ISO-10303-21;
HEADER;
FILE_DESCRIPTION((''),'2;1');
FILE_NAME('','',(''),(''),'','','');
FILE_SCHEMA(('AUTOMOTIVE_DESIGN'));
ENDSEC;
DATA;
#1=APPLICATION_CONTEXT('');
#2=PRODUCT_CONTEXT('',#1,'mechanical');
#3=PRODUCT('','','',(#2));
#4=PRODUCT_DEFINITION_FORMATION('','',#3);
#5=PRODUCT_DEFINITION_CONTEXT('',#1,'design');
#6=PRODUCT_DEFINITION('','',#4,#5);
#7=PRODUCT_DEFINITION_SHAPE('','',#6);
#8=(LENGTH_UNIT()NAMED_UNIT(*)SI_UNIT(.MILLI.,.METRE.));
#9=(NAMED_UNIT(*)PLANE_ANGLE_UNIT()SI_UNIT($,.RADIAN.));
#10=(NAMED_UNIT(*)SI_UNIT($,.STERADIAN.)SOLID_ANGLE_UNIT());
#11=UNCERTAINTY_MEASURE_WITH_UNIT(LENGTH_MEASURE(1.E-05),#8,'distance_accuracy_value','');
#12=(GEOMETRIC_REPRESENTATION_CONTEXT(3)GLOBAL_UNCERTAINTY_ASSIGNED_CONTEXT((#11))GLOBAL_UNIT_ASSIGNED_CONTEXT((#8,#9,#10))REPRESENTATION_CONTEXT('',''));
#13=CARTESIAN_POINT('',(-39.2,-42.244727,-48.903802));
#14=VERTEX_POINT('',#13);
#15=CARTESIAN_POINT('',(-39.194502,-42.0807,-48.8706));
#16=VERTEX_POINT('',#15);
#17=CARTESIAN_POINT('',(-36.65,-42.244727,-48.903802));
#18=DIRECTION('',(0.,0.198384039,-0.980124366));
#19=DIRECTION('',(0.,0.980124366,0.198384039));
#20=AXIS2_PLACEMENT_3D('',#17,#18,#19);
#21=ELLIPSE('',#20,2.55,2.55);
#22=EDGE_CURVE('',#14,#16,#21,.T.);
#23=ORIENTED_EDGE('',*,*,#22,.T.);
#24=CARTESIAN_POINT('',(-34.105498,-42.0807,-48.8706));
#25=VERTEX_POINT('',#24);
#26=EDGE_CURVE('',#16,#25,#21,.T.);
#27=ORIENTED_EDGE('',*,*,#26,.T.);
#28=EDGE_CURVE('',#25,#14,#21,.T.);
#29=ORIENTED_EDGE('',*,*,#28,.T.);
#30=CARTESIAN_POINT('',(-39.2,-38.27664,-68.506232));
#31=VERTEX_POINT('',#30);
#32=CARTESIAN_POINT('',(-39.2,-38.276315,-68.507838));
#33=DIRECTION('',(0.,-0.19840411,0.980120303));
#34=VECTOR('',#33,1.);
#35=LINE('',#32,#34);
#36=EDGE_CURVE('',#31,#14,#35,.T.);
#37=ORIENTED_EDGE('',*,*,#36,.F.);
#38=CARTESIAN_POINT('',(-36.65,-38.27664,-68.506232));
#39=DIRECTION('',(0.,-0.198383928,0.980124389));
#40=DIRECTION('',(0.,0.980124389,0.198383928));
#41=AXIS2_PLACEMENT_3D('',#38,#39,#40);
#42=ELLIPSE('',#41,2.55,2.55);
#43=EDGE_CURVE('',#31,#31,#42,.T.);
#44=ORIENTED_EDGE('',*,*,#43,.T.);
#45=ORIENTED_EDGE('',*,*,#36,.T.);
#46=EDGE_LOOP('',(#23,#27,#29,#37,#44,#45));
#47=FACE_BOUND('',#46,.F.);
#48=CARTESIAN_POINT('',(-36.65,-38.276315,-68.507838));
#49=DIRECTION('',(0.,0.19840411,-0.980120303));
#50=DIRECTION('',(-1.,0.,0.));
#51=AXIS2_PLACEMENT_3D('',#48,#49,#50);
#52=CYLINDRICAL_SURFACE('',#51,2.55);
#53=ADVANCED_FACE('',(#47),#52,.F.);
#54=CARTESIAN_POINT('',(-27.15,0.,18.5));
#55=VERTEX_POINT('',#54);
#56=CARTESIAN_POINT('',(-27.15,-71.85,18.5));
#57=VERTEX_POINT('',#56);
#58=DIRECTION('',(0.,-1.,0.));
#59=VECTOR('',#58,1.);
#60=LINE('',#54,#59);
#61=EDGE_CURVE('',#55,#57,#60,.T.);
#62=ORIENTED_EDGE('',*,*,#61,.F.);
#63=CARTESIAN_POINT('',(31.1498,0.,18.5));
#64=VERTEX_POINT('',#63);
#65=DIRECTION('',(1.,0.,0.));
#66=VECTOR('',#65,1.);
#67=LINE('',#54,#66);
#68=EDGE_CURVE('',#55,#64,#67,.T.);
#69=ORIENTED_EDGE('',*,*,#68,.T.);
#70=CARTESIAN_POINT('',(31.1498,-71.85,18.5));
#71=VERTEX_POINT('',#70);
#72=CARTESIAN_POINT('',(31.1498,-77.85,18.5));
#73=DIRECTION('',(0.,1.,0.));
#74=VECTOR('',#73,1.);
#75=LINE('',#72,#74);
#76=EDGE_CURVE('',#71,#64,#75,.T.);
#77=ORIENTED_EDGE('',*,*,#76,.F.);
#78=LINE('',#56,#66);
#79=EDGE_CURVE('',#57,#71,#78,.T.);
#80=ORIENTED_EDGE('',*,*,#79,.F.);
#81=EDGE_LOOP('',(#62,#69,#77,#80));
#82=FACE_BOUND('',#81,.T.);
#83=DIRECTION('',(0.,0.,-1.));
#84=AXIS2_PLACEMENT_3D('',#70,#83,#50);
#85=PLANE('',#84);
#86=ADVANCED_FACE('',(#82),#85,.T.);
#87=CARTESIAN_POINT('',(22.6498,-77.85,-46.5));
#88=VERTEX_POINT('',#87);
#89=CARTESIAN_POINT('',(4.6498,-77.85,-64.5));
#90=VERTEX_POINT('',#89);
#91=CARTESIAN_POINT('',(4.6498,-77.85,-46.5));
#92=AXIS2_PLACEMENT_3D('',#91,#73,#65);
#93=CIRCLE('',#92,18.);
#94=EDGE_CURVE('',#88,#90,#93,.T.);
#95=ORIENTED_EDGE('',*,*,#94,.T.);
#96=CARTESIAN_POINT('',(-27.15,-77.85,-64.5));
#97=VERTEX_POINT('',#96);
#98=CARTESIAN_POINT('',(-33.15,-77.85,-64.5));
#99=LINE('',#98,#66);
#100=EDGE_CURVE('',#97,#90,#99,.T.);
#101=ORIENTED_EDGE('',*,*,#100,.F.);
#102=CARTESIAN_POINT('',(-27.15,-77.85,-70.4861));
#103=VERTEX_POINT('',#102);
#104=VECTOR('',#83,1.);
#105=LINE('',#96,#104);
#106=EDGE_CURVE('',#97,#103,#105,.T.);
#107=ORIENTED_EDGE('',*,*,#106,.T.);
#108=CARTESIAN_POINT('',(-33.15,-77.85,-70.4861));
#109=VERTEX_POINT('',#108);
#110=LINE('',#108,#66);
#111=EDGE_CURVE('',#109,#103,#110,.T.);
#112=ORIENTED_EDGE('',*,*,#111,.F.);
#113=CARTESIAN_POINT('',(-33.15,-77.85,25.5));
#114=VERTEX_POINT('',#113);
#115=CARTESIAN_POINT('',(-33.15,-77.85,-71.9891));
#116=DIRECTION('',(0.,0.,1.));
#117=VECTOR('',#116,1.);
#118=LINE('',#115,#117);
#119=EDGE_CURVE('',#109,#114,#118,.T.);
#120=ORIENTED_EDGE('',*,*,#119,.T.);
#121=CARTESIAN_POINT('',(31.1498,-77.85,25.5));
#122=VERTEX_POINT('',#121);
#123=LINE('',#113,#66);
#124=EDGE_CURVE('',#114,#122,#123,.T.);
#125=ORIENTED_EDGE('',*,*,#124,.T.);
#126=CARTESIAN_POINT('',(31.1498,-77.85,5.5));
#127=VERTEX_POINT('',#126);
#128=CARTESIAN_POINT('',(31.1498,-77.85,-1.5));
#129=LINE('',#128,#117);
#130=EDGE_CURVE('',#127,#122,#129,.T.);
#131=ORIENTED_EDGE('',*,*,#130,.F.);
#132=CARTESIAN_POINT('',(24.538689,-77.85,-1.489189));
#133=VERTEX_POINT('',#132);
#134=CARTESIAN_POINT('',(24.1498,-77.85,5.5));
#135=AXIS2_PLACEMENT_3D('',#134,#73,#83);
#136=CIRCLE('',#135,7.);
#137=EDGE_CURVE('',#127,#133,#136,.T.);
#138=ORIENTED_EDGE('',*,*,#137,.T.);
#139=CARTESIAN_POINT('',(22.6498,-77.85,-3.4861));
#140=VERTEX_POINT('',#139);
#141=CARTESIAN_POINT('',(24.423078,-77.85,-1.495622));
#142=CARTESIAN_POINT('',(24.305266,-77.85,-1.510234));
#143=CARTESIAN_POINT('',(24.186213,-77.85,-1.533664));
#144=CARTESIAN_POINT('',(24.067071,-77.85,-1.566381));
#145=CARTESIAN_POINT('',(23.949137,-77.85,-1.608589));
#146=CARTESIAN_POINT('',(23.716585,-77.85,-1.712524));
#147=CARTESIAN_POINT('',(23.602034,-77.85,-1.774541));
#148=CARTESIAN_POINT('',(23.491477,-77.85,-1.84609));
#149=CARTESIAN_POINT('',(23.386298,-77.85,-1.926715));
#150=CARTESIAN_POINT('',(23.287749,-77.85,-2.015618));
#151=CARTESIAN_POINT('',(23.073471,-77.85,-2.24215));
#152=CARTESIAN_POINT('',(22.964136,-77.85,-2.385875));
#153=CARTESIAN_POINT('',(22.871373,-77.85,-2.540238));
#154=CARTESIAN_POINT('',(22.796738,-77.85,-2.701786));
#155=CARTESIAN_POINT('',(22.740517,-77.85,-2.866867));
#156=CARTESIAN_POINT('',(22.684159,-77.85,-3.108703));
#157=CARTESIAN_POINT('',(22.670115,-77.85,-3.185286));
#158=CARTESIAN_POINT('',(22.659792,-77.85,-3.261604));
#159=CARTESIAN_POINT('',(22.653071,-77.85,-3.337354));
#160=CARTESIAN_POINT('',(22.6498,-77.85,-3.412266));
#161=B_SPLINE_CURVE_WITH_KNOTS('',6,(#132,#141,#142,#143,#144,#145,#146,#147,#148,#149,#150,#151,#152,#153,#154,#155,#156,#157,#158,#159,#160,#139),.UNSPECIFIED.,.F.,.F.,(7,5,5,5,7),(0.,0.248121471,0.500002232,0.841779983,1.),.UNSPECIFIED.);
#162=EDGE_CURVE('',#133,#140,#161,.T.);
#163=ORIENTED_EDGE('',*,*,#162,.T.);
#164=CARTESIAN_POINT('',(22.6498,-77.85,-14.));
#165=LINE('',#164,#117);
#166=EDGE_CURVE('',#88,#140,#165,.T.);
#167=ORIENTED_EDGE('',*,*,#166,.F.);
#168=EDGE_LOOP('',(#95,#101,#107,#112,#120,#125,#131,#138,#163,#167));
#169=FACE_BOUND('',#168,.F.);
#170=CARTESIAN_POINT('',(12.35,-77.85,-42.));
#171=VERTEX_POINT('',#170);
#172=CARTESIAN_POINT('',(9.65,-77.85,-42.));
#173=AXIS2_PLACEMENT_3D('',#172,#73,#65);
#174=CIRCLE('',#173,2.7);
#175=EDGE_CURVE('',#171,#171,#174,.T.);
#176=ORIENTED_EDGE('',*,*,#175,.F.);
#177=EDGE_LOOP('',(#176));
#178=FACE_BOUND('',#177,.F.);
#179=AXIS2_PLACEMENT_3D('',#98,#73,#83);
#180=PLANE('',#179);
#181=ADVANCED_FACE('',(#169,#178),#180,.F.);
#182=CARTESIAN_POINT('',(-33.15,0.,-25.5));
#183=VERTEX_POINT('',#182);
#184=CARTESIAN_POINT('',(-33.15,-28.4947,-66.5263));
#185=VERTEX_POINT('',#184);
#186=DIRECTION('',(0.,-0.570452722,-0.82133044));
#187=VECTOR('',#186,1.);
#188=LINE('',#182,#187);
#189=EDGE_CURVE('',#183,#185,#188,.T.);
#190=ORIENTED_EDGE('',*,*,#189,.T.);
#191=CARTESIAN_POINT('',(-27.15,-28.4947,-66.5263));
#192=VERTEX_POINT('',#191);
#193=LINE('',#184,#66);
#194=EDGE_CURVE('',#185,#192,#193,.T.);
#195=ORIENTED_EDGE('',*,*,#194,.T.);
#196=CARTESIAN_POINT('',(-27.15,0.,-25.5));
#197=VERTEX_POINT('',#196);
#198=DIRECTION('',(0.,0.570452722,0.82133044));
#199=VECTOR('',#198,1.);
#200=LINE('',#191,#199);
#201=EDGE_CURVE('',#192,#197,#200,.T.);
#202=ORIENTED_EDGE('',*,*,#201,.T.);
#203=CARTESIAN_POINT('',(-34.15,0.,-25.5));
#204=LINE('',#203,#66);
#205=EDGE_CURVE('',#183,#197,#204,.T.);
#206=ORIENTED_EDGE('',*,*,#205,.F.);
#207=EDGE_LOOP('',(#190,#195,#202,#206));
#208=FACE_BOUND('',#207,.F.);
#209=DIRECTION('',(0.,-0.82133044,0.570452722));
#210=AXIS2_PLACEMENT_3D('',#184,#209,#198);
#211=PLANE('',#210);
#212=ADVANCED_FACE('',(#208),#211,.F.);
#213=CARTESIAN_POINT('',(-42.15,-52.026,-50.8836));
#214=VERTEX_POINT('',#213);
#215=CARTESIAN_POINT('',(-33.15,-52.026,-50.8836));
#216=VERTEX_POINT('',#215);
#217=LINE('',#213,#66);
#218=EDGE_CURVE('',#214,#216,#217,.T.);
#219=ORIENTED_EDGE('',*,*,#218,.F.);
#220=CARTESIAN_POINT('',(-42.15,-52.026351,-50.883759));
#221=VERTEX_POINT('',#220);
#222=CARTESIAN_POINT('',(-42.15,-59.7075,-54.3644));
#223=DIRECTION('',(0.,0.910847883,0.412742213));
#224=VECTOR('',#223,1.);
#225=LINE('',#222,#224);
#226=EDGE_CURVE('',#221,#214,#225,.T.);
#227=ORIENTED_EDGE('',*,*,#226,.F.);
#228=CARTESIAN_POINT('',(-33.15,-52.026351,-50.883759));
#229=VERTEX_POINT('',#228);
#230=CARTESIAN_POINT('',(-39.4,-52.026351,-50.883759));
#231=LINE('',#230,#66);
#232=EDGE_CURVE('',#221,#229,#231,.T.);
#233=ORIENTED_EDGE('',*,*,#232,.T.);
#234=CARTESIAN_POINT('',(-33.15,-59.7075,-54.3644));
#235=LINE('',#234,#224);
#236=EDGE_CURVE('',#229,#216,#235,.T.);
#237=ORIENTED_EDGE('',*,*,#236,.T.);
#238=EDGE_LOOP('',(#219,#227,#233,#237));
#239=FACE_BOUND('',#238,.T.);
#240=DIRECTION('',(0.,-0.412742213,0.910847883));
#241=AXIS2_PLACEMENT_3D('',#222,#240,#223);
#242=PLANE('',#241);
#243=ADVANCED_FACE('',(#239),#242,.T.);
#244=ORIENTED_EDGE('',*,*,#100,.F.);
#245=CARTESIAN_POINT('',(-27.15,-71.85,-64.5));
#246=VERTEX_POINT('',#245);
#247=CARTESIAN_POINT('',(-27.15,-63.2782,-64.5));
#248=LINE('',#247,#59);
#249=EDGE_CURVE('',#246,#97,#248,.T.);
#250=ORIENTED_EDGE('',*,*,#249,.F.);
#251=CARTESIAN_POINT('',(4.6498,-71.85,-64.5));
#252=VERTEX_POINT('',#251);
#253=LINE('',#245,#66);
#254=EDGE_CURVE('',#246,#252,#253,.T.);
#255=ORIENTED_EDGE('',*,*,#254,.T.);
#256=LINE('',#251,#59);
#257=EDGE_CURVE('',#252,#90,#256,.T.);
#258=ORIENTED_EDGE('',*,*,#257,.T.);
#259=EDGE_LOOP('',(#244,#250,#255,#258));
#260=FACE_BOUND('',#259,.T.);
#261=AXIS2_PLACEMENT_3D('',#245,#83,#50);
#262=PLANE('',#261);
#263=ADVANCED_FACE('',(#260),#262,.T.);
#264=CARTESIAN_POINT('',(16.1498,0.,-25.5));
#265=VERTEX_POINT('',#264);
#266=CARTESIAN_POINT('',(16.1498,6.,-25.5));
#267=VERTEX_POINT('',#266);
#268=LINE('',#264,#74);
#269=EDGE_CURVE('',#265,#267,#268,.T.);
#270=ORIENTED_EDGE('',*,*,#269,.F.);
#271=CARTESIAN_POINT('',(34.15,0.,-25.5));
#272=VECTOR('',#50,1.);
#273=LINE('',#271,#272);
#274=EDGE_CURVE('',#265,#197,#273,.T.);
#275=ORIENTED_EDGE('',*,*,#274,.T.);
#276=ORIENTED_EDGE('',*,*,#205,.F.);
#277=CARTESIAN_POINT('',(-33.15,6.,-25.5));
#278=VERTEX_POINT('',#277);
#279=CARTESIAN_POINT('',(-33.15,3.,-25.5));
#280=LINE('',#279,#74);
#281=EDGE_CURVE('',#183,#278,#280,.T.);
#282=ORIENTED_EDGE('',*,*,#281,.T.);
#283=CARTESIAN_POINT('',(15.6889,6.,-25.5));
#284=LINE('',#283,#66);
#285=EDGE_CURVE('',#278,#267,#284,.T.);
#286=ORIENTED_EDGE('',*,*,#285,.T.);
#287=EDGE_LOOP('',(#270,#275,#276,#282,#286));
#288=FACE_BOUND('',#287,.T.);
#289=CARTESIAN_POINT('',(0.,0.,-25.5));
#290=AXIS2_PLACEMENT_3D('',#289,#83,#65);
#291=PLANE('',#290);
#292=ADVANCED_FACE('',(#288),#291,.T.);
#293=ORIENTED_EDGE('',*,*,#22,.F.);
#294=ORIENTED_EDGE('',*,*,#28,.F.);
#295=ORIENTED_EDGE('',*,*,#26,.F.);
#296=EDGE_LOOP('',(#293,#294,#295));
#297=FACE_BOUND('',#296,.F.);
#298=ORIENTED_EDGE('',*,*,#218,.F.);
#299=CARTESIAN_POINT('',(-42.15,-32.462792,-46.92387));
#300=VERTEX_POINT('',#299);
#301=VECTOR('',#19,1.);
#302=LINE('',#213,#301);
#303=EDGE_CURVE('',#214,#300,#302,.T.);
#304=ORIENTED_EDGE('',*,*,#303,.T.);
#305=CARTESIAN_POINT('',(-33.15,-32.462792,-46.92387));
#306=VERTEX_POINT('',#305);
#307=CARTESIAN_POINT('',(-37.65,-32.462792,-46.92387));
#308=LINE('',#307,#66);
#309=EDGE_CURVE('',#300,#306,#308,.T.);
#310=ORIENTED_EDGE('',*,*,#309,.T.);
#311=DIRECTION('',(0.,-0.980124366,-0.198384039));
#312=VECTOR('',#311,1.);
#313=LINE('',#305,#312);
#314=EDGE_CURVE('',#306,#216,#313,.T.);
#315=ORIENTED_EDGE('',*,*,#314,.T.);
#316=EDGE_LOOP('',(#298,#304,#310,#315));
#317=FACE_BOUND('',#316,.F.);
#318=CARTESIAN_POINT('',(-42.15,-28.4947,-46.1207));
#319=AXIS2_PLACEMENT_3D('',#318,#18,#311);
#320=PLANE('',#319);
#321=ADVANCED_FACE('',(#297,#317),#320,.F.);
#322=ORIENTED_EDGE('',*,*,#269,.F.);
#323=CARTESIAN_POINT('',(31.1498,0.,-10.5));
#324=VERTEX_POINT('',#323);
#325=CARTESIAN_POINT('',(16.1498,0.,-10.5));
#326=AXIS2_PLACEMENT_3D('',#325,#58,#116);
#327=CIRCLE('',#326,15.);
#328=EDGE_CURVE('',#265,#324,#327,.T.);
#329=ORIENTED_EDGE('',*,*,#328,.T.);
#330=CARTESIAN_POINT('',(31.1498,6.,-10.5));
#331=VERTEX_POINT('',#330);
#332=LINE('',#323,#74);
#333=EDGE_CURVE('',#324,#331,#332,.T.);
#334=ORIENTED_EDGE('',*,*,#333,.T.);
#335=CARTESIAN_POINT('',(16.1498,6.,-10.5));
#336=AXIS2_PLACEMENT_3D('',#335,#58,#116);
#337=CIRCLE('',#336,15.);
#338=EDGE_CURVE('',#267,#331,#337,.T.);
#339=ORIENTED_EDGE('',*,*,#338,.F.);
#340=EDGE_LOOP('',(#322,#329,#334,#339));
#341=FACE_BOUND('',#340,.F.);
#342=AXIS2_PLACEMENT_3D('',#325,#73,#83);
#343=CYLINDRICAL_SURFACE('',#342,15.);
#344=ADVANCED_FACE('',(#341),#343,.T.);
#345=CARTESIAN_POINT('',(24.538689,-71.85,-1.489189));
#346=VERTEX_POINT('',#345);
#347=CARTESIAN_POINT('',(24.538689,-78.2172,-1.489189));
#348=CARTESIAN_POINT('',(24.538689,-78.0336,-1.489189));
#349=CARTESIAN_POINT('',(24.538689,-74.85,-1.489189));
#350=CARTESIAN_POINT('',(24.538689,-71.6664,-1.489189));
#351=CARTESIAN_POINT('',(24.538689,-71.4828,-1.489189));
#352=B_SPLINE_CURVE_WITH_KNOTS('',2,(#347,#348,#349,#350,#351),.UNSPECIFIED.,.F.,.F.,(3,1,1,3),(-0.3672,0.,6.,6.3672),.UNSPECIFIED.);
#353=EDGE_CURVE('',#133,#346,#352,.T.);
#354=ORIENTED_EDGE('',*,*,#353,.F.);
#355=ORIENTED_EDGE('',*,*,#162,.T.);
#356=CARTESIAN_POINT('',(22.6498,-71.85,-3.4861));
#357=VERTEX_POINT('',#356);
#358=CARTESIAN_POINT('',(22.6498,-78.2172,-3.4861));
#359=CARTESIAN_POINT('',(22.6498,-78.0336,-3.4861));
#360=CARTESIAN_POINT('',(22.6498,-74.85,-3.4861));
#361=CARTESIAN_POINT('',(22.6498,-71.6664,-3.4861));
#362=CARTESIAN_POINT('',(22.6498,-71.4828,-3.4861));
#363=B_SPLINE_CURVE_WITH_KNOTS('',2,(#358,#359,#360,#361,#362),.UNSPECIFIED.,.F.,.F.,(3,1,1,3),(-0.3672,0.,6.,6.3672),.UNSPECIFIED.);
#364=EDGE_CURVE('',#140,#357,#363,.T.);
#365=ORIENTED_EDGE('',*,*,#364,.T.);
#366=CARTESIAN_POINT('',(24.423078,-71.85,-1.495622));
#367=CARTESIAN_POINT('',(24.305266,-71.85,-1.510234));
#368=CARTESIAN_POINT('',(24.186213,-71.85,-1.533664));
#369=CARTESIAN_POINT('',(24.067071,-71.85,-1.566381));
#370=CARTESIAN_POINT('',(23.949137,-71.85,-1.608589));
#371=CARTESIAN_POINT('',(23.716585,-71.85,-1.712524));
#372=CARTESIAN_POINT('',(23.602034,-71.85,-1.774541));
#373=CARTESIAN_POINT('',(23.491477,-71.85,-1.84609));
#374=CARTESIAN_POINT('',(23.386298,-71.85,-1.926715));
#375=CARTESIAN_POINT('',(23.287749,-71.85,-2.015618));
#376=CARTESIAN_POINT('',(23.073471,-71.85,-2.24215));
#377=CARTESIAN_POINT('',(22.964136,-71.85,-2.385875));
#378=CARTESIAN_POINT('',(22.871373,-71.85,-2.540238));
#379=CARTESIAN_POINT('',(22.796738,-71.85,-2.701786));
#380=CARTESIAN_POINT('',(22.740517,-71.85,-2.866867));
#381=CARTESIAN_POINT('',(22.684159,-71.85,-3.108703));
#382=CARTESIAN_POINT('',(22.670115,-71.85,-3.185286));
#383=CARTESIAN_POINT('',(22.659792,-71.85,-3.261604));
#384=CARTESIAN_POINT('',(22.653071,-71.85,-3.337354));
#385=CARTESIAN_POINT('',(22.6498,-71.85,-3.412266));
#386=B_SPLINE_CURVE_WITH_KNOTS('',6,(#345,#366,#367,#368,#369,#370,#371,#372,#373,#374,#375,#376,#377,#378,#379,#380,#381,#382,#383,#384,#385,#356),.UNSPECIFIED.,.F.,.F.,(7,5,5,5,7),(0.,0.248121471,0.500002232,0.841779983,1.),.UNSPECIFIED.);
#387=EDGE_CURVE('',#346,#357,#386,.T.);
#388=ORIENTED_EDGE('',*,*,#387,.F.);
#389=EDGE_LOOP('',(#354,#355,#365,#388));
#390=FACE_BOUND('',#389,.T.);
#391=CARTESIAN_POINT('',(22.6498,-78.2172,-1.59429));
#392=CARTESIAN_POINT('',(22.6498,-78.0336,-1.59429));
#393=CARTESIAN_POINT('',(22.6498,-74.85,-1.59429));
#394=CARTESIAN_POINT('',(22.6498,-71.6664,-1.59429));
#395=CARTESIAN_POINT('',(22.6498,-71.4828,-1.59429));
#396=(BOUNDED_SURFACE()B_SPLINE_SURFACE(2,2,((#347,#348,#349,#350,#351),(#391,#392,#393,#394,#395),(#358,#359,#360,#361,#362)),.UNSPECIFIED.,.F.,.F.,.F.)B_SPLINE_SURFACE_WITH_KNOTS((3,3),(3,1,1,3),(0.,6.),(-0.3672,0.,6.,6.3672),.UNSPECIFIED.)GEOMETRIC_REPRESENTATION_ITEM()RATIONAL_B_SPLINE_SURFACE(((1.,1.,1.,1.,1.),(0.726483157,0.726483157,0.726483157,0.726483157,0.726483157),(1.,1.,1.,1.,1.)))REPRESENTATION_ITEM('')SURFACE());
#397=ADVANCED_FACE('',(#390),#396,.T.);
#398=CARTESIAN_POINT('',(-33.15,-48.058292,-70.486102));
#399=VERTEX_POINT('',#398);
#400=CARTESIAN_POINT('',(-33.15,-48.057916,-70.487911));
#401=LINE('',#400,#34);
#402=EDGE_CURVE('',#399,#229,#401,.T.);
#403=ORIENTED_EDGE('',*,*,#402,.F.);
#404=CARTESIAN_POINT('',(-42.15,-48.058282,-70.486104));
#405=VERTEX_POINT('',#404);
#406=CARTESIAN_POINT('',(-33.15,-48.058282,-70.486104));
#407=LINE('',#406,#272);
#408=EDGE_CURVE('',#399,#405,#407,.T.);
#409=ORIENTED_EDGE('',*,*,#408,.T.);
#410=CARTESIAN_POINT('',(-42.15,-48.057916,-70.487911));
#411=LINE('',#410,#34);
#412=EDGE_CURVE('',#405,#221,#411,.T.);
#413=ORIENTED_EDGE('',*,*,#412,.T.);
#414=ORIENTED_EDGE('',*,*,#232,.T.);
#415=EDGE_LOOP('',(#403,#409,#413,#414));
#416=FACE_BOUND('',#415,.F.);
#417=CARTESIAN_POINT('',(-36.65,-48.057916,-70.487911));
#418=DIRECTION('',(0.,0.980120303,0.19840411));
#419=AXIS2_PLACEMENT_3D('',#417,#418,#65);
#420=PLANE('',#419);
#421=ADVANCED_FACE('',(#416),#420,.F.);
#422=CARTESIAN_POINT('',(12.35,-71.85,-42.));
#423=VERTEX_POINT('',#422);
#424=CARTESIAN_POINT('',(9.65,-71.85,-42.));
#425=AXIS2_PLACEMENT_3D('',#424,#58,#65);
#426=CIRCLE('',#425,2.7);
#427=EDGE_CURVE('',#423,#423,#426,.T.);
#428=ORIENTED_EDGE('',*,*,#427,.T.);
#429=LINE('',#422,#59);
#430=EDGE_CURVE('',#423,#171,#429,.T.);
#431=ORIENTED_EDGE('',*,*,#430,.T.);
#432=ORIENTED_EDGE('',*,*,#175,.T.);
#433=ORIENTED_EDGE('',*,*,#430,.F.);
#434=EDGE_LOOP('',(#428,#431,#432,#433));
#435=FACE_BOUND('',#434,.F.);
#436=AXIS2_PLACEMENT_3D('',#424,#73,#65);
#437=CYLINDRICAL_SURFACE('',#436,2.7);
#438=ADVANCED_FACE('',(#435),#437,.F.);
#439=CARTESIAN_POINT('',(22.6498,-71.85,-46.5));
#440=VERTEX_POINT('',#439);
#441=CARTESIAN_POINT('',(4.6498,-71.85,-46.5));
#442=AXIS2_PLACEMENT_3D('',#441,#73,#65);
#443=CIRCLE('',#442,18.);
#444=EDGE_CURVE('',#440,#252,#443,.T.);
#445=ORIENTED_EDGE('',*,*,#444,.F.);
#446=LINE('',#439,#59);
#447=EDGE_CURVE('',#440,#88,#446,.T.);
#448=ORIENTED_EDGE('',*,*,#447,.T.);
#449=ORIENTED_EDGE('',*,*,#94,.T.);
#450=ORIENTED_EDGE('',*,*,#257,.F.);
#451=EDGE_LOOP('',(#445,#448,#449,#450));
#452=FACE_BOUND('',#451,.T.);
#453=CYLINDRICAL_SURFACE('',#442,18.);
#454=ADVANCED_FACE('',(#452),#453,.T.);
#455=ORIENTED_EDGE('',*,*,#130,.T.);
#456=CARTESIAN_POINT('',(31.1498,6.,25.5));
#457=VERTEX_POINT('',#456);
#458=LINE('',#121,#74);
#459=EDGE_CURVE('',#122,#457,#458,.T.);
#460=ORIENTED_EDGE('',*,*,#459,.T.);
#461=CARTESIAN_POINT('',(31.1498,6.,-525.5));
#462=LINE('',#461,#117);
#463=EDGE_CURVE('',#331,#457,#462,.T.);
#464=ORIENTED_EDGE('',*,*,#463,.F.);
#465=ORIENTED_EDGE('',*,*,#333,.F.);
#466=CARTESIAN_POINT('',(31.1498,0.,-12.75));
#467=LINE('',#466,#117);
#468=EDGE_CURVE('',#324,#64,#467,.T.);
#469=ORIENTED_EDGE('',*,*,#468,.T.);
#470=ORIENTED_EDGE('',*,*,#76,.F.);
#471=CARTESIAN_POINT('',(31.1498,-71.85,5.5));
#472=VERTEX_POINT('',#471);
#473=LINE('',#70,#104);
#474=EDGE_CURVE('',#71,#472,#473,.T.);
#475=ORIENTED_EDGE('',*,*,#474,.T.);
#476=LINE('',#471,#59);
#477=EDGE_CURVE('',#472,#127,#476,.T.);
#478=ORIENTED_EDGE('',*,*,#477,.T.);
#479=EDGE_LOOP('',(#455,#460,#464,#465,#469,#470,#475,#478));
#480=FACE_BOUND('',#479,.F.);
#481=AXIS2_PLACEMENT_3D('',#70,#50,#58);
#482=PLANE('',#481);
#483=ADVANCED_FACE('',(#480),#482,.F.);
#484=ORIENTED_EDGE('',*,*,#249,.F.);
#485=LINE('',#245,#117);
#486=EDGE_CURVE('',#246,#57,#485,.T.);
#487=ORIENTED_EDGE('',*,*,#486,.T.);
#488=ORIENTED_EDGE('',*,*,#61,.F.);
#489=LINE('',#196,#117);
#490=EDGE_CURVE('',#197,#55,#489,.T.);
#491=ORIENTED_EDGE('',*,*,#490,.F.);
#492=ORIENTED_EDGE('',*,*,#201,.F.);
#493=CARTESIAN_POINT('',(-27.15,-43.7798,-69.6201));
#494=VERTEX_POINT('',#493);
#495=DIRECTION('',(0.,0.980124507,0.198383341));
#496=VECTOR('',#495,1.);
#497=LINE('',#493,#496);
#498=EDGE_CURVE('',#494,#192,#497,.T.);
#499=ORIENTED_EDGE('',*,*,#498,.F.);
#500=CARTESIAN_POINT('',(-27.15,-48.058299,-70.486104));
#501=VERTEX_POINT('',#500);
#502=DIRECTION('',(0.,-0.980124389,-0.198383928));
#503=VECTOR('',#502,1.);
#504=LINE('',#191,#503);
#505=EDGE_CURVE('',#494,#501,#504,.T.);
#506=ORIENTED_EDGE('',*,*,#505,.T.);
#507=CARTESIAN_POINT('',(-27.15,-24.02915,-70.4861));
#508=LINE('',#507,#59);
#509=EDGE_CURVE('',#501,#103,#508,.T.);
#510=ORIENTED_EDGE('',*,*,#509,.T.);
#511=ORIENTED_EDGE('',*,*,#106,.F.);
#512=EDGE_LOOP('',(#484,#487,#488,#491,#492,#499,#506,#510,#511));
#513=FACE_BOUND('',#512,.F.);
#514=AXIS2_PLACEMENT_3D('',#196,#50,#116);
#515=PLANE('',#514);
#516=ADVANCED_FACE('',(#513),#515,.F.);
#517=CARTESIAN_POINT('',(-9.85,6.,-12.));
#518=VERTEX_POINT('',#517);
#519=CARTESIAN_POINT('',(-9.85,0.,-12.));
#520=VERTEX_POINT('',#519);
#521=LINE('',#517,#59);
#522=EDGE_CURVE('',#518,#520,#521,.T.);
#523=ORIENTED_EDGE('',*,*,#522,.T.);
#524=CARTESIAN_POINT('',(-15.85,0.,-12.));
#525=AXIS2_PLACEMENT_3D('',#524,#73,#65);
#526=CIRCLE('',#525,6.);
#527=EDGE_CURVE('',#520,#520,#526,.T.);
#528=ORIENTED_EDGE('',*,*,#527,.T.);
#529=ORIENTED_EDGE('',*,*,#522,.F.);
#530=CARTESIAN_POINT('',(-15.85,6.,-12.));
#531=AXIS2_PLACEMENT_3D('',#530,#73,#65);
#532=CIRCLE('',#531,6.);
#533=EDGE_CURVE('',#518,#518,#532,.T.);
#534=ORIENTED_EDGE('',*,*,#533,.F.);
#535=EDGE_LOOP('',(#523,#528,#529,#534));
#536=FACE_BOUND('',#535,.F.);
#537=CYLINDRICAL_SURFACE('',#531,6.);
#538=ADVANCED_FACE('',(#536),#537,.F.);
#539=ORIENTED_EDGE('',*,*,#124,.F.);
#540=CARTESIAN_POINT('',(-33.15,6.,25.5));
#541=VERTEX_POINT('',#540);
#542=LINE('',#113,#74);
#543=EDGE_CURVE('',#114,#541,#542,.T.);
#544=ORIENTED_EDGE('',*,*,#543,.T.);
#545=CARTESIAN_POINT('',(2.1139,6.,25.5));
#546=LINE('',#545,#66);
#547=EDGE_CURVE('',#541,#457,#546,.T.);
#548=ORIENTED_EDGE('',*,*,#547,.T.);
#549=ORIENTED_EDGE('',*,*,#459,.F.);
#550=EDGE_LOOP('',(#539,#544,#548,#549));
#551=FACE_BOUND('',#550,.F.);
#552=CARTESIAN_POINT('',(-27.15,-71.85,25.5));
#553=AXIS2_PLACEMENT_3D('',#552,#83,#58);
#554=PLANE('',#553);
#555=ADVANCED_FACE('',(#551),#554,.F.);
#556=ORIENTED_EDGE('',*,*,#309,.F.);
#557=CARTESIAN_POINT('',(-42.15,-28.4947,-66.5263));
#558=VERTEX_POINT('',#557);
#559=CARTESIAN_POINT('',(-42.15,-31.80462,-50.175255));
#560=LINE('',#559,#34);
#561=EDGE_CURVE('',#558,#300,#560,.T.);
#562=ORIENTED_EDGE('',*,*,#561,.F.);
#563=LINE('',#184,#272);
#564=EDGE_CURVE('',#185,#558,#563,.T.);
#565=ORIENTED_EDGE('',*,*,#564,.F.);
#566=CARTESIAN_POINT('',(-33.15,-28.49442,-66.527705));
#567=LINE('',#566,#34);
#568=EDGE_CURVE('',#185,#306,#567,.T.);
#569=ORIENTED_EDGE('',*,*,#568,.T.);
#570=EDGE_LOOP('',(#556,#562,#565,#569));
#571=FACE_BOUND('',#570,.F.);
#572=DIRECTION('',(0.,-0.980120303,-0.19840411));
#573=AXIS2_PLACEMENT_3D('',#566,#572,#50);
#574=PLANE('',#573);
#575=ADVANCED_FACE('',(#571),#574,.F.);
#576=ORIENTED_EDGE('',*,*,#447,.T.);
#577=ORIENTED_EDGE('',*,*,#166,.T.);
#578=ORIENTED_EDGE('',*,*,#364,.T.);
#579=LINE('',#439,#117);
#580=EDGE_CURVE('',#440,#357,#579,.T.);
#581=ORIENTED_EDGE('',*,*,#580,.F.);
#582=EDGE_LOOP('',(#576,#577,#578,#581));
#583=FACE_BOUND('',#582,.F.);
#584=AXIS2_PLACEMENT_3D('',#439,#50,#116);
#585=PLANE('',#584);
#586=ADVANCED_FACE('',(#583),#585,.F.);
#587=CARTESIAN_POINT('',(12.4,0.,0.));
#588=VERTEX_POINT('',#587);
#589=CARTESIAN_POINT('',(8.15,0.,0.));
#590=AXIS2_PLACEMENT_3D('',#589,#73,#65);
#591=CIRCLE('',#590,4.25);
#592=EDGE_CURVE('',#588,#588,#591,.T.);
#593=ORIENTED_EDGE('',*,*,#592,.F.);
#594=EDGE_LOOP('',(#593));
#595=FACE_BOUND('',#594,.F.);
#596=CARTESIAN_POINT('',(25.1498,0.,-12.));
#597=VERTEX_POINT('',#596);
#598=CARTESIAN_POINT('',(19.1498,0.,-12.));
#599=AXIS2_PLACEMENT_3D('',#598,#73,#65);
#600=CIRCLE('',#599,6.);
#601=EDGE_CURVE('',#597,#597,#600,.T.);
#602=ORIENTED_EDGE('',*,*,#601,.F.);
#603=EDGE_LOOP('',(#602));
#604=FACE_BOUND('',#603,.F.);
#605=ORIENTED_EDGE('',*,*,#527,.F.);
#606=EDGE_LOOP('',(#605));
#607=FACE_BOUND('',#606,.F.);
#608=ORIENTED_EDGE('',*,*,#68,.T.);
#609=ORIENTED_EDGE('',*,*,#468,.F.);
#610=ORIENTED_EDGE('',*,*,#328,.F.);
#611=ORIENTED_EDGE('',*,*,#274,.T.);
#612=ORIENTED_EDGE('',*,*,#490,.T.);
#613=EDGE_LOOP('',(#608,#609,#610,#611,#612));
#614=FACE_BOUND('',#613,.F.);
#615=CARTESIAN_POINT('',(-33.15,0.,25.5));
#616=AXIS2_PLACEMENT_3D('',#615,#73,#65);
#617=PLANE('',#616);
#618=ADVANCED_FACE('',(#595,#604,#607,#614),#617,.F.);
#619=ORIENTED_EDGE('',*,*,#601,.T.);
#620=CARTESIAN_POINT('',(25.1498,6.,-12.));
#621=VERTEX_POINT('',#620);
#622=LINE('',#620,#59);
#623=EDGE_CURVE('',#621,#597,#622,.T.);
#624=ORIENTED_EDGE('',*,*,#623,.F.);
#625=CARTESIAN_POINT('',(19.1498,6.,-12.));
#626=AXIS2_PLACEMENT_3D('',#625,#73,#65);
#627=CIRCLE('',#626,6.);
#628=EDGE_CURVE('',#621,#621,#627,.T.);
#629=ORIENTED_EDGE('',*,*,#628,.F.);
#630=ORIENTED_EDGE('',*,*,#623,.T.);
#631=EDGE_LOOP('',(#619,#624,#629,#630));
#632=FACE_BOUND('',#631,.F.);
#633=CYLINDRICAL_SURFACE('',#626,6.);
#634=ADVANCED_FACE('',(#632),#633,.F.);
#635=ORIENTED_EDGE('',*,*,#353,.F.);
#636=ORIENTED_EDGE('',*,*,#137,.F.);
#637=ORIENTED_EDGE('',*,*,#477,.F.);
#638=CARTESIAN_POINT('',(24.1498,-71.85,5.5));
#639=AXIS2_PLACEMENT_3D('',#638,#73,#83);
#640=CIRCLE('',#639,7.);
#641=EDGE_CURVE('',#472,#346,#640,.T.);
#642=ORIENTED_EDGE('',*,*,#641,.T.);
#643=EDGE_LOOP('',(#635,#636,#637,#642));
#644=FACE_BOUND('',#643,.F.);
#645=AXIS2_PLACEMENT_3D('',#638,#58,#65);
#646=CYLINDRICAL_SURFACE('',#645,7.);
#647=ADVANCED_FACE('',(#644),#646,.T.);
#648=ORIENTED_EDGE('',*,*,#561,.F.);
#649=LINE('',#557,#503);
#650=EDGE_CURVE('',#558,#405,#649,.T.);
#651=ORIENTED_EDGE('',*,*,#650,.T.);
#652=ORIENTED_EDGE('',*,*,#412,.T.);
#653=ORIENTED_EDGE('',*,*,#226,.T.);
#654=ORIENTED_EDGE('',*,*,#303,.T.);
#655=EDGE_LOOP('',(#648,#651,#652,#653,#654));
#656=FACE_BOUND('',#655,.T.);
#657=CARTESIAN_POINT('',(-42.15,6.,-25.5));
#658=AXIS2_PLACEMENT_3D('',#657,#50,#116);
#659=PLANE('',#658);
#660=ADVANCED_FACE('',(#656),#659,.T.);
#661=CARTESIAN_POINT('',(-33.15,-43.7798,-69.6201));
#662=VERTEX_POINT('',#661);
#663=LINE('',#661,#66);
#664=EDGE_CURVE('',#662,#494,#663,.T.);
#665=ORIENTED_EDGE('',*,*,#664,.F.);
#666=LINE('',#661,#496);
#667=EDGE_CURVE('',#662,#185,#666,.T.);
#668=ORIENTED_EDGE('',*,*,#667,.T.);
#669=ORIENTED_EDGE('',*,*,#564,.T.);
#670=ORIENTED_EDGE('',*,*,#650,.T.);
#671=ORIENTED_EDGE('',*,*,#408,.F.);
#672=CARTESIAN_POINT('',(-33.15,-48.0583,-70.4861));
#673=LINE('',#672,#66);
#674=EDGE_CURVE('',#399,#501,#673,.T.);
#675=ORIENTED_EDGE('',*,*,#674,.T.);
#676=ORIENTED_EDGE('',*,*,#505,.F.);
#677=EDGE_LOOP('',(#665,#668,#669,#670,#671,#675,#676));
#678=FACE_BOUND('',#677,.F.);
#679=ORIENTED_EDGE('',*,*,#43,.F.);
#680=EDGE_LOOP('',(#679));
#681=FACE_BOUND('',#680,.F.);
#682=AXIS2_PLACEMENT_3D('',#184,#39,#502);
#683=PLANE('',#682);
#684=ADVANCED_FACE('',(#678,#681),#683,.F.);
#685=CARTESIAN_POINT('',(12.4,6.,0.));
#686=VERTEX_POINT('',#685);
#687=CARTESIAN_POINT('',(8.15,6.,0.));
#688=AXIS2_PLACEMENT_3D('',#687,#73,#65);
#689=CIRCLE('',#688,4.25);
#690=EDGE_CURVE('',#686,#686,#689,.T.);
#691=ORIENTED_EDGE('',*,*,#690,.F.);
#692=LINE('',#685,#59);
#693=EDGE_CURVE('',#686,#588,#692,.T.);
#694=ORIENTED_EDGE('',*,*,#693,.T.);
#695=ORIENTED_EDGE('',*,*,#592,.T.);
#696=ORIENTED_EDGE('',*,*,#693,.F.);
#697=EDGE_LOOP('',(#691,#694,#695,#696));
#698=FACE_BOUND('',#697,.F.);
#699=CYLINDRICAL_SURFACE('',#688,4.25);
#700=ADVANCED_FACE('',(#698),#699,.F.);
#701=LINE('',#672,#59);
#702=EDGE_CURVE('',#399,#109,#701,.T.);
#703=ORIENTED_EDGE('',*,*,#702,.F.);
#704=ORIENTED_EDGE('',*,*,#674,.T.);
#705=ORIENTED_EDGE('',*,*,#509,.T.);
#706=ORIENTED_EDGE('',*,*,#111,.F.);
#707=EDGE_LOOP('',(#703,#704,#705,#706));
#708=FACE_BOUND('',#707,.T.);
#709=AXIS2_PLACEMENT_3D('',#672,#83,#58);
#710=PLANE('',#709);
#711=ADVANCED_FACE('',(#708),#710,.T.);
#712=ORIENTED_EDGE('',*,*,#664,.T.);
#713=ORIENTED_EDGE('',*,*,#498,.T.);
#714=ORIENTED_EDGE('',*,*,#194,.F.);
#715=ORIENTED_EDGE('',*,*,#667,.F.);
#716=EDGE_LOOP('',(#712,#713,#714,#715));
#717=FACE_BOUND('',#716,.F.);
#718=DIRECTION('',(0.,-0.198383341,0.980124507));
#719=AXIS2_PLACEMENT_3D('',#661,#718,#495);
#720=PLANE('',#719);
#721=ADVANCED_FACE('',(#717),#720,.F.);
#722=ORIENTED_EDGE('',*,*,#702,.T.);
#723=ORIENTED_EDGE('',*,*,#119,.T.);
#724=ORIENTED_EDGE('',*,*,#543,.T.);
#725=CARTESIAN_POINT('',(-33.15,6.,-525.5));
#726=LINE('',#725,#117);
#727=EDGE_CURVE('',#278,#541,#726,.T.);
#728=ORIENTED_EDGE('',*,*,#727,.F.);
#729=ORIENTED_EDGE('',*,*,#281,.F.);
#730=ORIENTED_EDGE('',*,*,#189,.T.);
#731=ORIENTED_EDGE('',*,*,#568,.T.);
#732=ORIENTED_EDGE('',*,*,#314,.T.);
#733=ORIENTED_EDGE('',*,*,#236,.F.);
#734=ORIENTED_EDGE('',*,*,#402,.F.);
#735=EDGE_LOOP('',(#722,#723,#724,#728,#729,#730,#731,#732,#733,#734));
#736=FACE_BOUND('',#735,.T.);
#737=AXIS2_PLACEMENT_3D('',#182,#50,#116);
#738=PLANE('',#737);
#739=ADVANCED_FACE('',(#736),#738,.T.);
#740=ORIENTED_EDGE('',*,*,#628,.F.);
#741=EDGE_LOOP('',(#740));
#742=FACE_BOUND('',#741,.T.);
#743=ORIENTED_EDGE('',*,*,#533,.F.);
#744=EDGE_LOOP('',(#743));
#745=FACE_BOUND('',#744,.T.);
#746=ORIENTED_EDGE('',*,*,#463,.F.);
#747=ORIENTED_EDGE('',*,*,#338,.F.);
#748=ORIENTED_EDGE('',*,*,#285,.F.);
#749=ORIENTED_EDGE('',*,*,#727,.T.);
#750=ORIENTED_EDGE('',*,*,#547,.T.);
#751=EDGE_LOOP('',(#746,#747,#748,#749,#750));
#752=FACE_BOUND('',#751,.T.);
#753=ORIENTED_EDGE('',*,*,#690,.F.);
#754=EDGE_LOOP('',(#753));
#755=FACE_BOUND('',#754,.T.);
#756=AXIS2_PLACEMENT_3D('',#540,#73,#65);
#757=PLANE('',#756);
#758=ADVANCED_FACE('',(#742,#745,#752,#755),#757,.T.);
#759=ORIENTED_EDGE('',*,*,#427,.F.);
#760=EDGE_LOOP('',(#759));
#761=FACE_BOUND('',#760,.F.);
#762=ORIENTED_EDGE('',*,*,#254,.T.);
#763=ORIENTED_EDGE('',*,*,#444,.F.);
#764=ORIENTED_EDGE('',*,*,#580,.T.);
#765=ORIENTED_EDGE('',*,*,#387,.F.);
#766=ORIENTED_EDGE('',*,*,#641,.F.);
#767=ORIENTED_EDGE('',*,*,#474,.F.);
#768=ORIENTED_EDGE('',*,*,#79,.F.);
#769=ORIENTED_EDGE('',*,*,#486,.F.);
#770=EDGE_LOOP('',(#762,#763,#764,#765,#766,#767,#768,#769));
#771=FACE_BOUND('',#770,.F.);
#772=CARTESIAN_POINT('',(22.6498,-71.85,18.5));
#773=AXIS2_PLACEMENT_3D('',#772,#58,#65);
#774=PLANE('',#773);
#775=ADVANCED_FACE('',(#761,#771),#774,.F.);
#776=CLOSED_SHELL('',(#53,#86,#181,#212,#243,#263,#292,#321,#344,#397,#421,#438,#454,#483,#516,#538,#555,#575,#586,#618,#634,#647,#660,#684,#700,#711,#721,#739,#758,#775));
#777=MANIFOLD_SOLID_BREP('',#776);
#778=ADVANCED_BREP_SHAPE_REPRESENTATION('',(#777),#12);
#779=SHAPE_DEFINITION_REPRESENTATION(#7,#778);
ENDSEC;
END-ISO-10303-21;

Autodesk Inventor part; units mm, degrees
ref_plane "YZ Plane" through (0, 0, 0) normal (1, 0, 0) x (0, 1, 0)
ref_plane "XZ Plane" through (0, 0, 0) normal (0, 1, 0) x (-1, 0, 0)
ref_plane "XY Plane" through (0, 0, 0) normal (0, 0, 1) x (1, 0, 0)
sketch "Sketch1" plane through (0, 0, 0) normal (0, 1, 0) x (-1, 0, 0)
  line L0 (0, -25.5) -> (-34.15, -25.5)
  line L1 (-34.15, -25.5) -> (-34.15, 0)
  line L2 (-34.15, 0) -> (-34.15, 25.5)
  line L3 (-34.15, 25.5) -> (0, 25.5)
  line L4 (0, 25.5) -> (34.15, 25.5)
  line L5 (34.15, 25.5) -> (34.15, 0)
  line L6 (34.15, 0) -> (34.15, -25.5)
  line L7 (34.15, -25.5) -> (0, -25.5)
  point P0 (0, 0)
extrude "Extrusion1" add sketch "Sketch1" along normal blind 7
sketch "Sketch3" plane through (-34.15, 0, 25.5) normal (0, 0, 1) x (1, 0, 0)
  line L0 (0, 0) -> (0, -78.85)
  point P0 (34.15, 0)
  dimension "d7" = 78.85
sketch "Sketch4" plane through (-34.15, 0, -25.5) normal (-1, 0, 0) x (0, 0, 1)
  line L0 (51, 0) -> (51, -78.85)
  line L1 (51, -78.85) -> (-39, -78.85)
  line L2 (-39, -78.85) -> (-39, -71.85)
  line L3 (0, 0) -> (-39, -71.85)
  line L4 (0, 0) -> (51, 0)
  point P0 (25.5, 0)
  dimension "d10" = 90
  dimension "d11" = 7
extrude "Extrusion2" add sketch "Sketch4" against normal blind 7
sketch "Sketch6" plane through (0, 7, 0) normal (0, 1, 0) x (1, 0, 0)
  line L0 (34.15, -25.5) -> (34.15, 25.5) projected
  line L1 (34.15, 25.5) -> (34.15, 0)
  line L2 (-34.15, 25.5) -> (-34.15, -25.5) projected
  circle A0 centre (8.15, 0) radius 5
  point P0 (0, 0)
  dimension "d20" = 10
extrude "Extrusion4" cut sketch "Sketch6" against normal blind 10
sketch "Sketch7" plane through (-27.15, 0, -25.5) normal (1, 0, 0) x (0, 0, -1)
  line L0 (-51, -78.85) -> (39, -78.85) projected
  line L1 (-51, -78.85) -> (39, -78.85)
  line L2 (39, -78.85) -> (39, -71.85) projected
  line L3 (39, -78.85) -> (39, -71.85)
  line L4 (39, -71.85) -> (-51, -71.85)
  line L5 (-51, 0) -> (-51, -78.85) projected
  line L6 (-51, -78.85) -> (-51, -71.85)
  point P0 (-25.5, 0)
sketch "Sketch8" plane through (0, 0, 0) normal (0, -1, 0) x (1, 0, 0)
  circle A0 centre (8.15, 0) radius 5 projected
  line L0 (8.15, 18.5) -> (34.15, 18.5)
  line L1 (34.15, 25.5) -> (34.15, -25.5) projected
  line L2 (8.15, 25.5) -> (34.15, 25.5)
  line L3 (8.15, 25.5) -> (-27.15, 25.5)
  line L4 (-27.15, 25.5) -> (-27.15, -25.5) projected
  line L5 (8.15, 18.5) -> (-27.15, 18.5)
  line L6 (34.15, 25.5) -> (34.15, 18.5)
  line L7 (-27.15, 25.5) -> (-27.15, 18.5)
  point P0 (0, 0)
extrude "Extrusion6" add sketch "Sketch7" along normal blind 58.5
extrude "Extrusion7" add sketch "Sketch8" along normal blind 78.75 contours L5 L4 L3 L2 L1 L0
sketch "Sketch9" plane through (31.35, 0, -25.5) normal (1, 0, 0) x (0, 0, -1)
  line L0 (-51, -78.75) -> (-51, 7) projected
  line L1 (-44, 0) -> (-44, -71.85) projected
  line L2 (-51, -78.75) -> (-44, -78.75)
  line L3 (-44, -78.75) -> (-44, -71.85)
  line L4 (-44, -71.85) -> (-51, -71.85)
  line L5 (-51, -71.85) -> (-51, -78.75)
  point P0 (-25.5, 0)
extrude "Extrusion8" cut sketch "Sketch9" along normal blind 10
sketch "Boceto11" plane through (-34.15, -78.85, -64.5) normal (0, -1, 0) x (1, 0, 0)
  line L0 (72.0718, 89.9914) -> (72.0718, 37.9883)
  line L1 (72.0718, 37.9883) -> (65.5278, 37.9883)
  line L2 (65.5278, 37.9883) -> (65.5278, 89.9914)
  line L3 (72.0718, 89.9914) -> (72.0718, 92.1751)
  line L4 (72.0718, 92.1751) -> (65.5278, 92.1751)
  line L5 (65.5278, 92.1751) -> (65.5278, 89.9914)
  point P0 (34.15, 64.5)
extrude "Extrusión9" cut sketch "Boceto11" against normal blind 1000
sketch "Boceto24" plane through (-27.15, 0, -25.5) normal (0, 0, -1) x (-1, 0, 0)
  line L0 (7, -71.85) -> (7, -78.85) projected
  line L1 (7, -78.35) -> (7, -78.85)
  line L2 (7, -78.85) -> (-58.5, -78.85) projected
  line L3 (-58.5, -78.85) -> (-58.5, -77.85)
  line L4 (-58.5, -71.85) -> (-58.5, -78.85) projected
  line L5 (-58.5, -77.85) -> (6, -77.85)
  line L6 (7, -77.85) -> (7, -78.85)
  line L7 (7, -78.85) -> (-58.8392, -78.85)
  line L8 (-58.5278, 7) -> (7, 7) projected
  line L9 (7, -78.85) -> (7, 7)
  line L10 (7, 7) -> (6, 7)
  line L11 (6, 6) -> (6, -77.85)
  line L12 (-58.5278, -71.85) -> (-58.5278, 7) projected
  line L13 (-58.5278, 7) -> (-58.5278, 6)
  line L14 (-58.5278, 6) -> (6, 6)
  line L15 (7, 0) -> (7, 7) projected
  line L16 (7, 6) -> (7, 7)
  line L17 (7, 7) -> (-58.5278, 7)
  point P0 (-27.15, 0)
  dimension "d65" = 1
  dimension "d66" = 1
  dimension "d67" = 1
extrude "Extrusión19" cut sketch "Boceto24" along normal mid plane 1000
sketch "Boceto27" plane through (31.3778, 0, -25.5) normal (0, 0, -1) x (-1, 0, 0)
  line L0 (0, -71.85) -> (0, 6) projected
  line L1 (0, 6) -> (0.228, 6)
  line L2 (0, 6) -> (64.5278, 6) projected
  line L3 (0.228, 6) -> (0.228, -77.85)
  line L4 (0.0278, -77.85) -> (64.5278, -77.85) projected
  line L5 (0.0278, -71.85) -> (0.0278, -77.85) projected
  line L6 (0.228, -77.85) -> (0.0278, -77.85)
  line L7 (0.0278, -77.85) -> (0, 6)
  line L8 (0, 6) -> (0, -77.85)
  line L9 (0, -77.85) -> (0.0278, -77.85)
  point P0 (31.3778, 0)
  dimension "d73" = 0.228
extrude "Extrusión21" cut sketch "Boceto27" along normal mid plane 1000
sketch "Boceto31" plane through (-33.15, 0, -25.5) normal (-1, 0, 0) x (0, 0, 1)
  circle A0 centre (64.38, -38.5153) radius 2.6
  point P0 (25.5, 0)
  point P1 (64.38, -49.4573)
sketch "Boceto32" plane through (-27.15, -71.85, 18.5) normal (0, 1, 0) x (1, 0, 0)
  circle A0 centre (47, 71.5) radius 5 projected
  circle A1 centre (47, 71.5) radius 5
  line L0 (52, 71.5) -> (58.2998, 71.5)
  line L1 (67, 83) -> (67, -7)
  line L2 (58.2998, -7) -> (-6, -7) projected
  line L3 (67, -7) -> (58.2998, -7)
  line L4 (58.2998, -7) -> (58.2998, 83)
  line L5 (47, 76.5) -> (47, 83)
  line L6 (-6, 83) -> (0, 83) projected
  line L7 (-6, 83) -> (-6, 91.5)
  line L8 (-6, 91.5) -> (67, 91.5)
  line L9 (67, 91.5) -> (67, 83)
  line L10 (-6, 83) -> (58.2998, 83)
  point P0 (27.15, 18.5)
extrude "Extrusión23" add sketch "Boceto32" against normal blind 6 contours L4 L10 L6 L7 L8 L9 L1 L3
sketch "Boceto33" plane through (-33.15, -77.85, 25.5) normal (-1, 0, 0) x (0, 0, 1)
  line L0 (0, 83.85) -> (0, 0) projected
  line L1 (0, 74.4354) -> (10.1255, 74.4354)
  line L2 (10.1255, 74.4354) -> (10.1255, 56.6115)
  line L3 (10.9445, 54.9975) -> (18.0243, 49.8171)
  line L4 (18.8039, 48.5979) -> (20.1084, 42.1205)
  line L5 (0, 11.6181) -> (18.1478, 11.6181)
  line L6 (20.1478, 13.6181) -> (20.1478, 41.7256)
  arc A0 (10.1255, 56.6115) -> (10.9445, 54.9975) centre (12.1255, 56.6115) ccw
  arc A1 (18.8039, 48.5979) -> (18.0243, 49.8171) centre (16.8433, 48.203) ccw
  arc A2 (20.1478, 41.7256) -> (20.1084, 42.1205) centre (18.1478, 41.7256) ccw
  arc A3 (18.1478, 11.6181) -> (20.1478, 13.6181) centre (18.1478, 13.6181) ccw
  point P0 (-25.5, 77.85)
  dimension "d91" = 2
extrude "Extrusión24" add sketch "Boceto33" against normal blind 6
extrude "Extrusión25" cut sketch "Boceto31" against normal blind 6
sketch "Boceto34" plane through (-27.15, -77.85, 25.5) normal (1, 0, 0) x (0, 0, -1)
  line L0 (-18.1478, 11.6181) -> (-21.8775, 11.6181)
  line L1 (-21.8775, 11.6181) -> (-21.8775, 48.067)
  line L2 (-21.8775, 48.067) -> (-10.1255, 56.8358)
  line L3 (-10.1255, 74.4354) -> (-10.1255, 56.6115) projected
  line L4 (-10.1255, 56.8358) -> (-10.1255, 48.9642)
  line L5 (-10.1255, 48.9642) -> (-16.6729, 42.1735)
  line L6 (-16.6729, 42.1735) -> (-18.1478, 11.6181)
  point P0 (25.5, 77.85)
extrude "Extrusión26" add sketch "Boceto34" against normal blind 6
fillet "Empalme5" radius 10 3 edges at (-30.15, -21.0142, 35.6255) (-30.15, -29.783, 47.3775) (-30.15, -66.2319, 47.3775)
sketch "Boceto37" plane through (-33.15, 6, 25.5) normal (0, 1, 0) x (1, 0, 0)
  circle A0 centre (52.2998, 37.5) radius 6
  circle A1 centre (17.3, 37.5) radius 6
  line L0 (64.2998, 37.5) -> (52.2998, 37.5)
  circle A2 centre (52.2998, 37.5) radius 6
  dimension "d109" = 12
  dimension "d110" = 12
  dimension "d229" = 12
extrude "Extrusión29" cut sketch "Boceto37" against normal blind 6.5
sketch "Boceto39" plane through (-27.15, -71.85, 18.5) normal (0, 1, 0) x (1, 0, 0)
  line L0 (58.2998, -7) -> (58.2998, 0)
  line L1 (58.2998, 44) -> (58.2998, 91.5)
  line L2 (-6, 91.5) -> (67, 91.5) projected
  line L3 (0, 0) -> (58.2998, 0) projected
  line L4 (58.2998, 0) -> (58.2998, -7) projected
  line L5 (58.2998, -7) -> (67, -7) projected
  line L6 (58.2998, -7) -> (67, -7)
  line L7 (67, 91.5) -> (-6, 91.5) projected
  line L8 (67, -7) -> (67, 91.5)
  line L9 (67, 91.5) -> (58.2998, 91.5)
  line L10 (58.2998, 0) -> (58.2998, 44)
  point P0 (27.15, 18.5)
extrude "Extrusión31" cut sketch "Boceto39" against normal blind 10
sketch "Boceto41" plane through (-27.15, -71.85, 18.5) normal (0, 1, 0) x (1, 0, 0)
  circle A0 centre (36.8, 60.5) radius 2.7
  line L0 (-6, -7) -> (-6, 44) projected
  line L1 (-6, -7) -> (36.8, -7)
  line L2 (36.8, -7) -> (36.8, 60.5)
  line L3 (36.8, 60.5) -> (-6, 60.5)
  line L4 (-6, 60.5) -> (-6, -7)
  point P0 (27.15, 18.5)
  point P1 (58.2998, 91.5)
  dimension "d126" = 5.4
  dimension "d213" = 42.8
  dimension "d214" = 67.5
extrude "Extrusión32" cut sketch "Boceto41" against normal blind 10 contours A0 L2 L3 | L3 L2 A0
sketch "Sketch42" plane through (-27.15, -71.85, 18.5) normal (0, 1, 0) x (1, 0, 0)
  circle A0 centre (36.8, 60.5) radius 2.7 projected
  line L0 (36.8, 63.2) -> (36.8, 60.5)
  circle A1 centre (31.7998, 65) radius 18
  line L1 (0, 0) -> (0, 83) projected
  line L2 (0, 83) -> (31.7998, 83)
  line L3 (58.2998, 91.5) -> (-6, 91.5) projected
  line L4 (49.7998, 65) -> (49.7998, 0)
  line L5 (58.2998, 0) -> (0, 0) projected
  line L6 (0, 0) -> (58.2998, 0) projected
  line L7 (49.7998, 0) -> (58.2998, 0)
  line L8 (58.2998, 91.5) -> (58.2998, -7) projected
  line L9 (58.2998, 0) -> (58.2998, 91.5)
  line L10 (0, 83) -> (0, 44) projected
  line L11 (0, 83) -> (-6, 83)
  line L12 (-6, 91.5) -> (-6, 83) projected
  line L13 (-6, 83) -> (-6, 91.5)
  line L14 (58.2998, 91.5) -> (58.2998, 0) projected
  line L15 (-6, 91.5) -> (58.2998, 91.5)
  point P0 (27.15, 18.5)
  point P1 (58.2998, -7)
  dimension "d129" = 36
extrude "Extrusion33" cut sketch "Sketch42" against normal blind 10 contours A1 L2 L11 L12 L3 L8 L5 L4
sketch "Sketch43" plane through (-27.15, -71.85, 18.5) normal (0, 0, -1) x (-1, 0, 0)
  line L0 (6, -6) -> (-58.2998, -6) projected
  line L1 (0, 0) -> (-49.7998, 0) projected
  line L2 (-58.2998, -6) -> (-49.7998, -6)
  line L3 (-49.7998, -6) -> (-49.7998, 0)
  line L4 (-49.7998, 0) -> (-58.2998, 0)
  line L5 (-58.2998, 0) -> (-58.2998, -6)
  point P0 (-27.15, 71.85)
extrude "Extrusion34" add sketch "Sketch43" along normal blind 20
fillet "Fillet7" radius 7 1 edges at (31.1498, -74.85, -1.5)
fillet "Fillet8" radius 2 1 edges at (22.6498, -74.85, -1.5)
sketch "Sketch44" plane through (-33.15, 0, -25.5) normal (-1, 0, 0) x (0, 0, 1)
  line L0 (68.8577, -26.7837) -> (65.1452, -24.0136) projected
  line L1 (61.1255, -3.4146) -> (51, -3.4146) projected
  line L2 (65.1452, -24.0136) -> (51, -24.0136)
  line L3 (51, -24.0136) -> (51, -3.4146)
  line L4 (51, -3.4146) -> (65.1452, -3.4146)
  line L5 (65.1452, -3.4146) -> (65.1452, -24.0136)
  point P0 (25.5, 0)
extrude "Extrusion35" cut sketch "Sketch44" against normal blind 20
sketch "Sketch45" plane through (-33.15, 6, 25.5) normal (0, 1, 0) x (1, 0, 0)
  circle A0 centre (41.3, 25.5) radius 5 projected
  circle A1 centre (41.3, 25.5) radius 4.25
  circle A2 centre (41.3, 25.5) radius 5
  point P0 (33.15, 25.5)
  dimension "d138" = 8.5
extrude "Extrusion36" add sketch "Sketch45" against normal blind 6
sketch "Sketch47" plane through (-33.15, 0, -25.5) normal (-1, 0, 0) x (0, 0, 1)
  line L0 (-44.1201, -43.7798) -> (-41.0263, -28.4947)
  line L1 (-39, -71.85) -> (0, 0) projected
  line L2 (-41.0263, -28.4947) -> (0, 0)
  line L3 (0, 0) -> (-39, -71.85)
  line L4 (-44.1201, -43.7798) -> (-44.1201, -71.85)
  line L5 (-44.1201, -71.85) -> (-39, -71.85)
  point P0 (25.5, 0)
extrude "Extrusion37" add sketch "Sketch47" against normal blind 6
sketch "Sketch50" plane through (-33.15, 6, -25.5) normal (-1, 0, 0) x (0, 0, 1)
  line L0 (-44.1201, -49.7798) -> (-41.0263, -34.4947) projected
  line L1 (-41.0263, -34.4947) -> (-46.4891, -61.4839)
  line L2 (-39, -83.85) -> (51, -83.85) projected
  line L3 (-39, -83.85) -> (-46.4891, -83.85)
  line L4 (-46.4891, -83.85) -> (-46.4891, -61.4839)
  line L5 (-41.0263, -34.4947) -> (-39, -69.2782)
  line L6 (-39, -69.2782) -> (-39, -83.85)
  point P0 (25.5, -6)
extrude "Extrusion38" add sketch "Sketch50" against normal blind 6
sketch "Sketch51" plane through (-33.15, 6, -25.5) normal (-1, 0, 0) x (0, 0, 1)
  line L0 (-41.0263, -34.4947) -> (-46.4891, -61.4839) projected
  line L1 (-41.0263, -34.4947) -> (-46.4891, -61.4839)
  line L2 (-46.4891, -61.4839) -> (-15.8808, -61.4839)
  line L3 (-41.0263, -34.4947) -> (-15.8808, -34.4947)
  line L4 (-15.8808, -34.4947) -> (-15.8808, -61.4839)
  point P0 (25.5, -6)
extrude "Extrusion39" add sketch "Sketch51" along normal blind 9
sketch "Sketch54" plane through (-33.15, 6, -25.5) normal (-1, 0, 0) x (0, 0, 1)
  line L0 (51, -72.2319) -> (51, -83.85) projected
  line L1 (51, -83.85) -> (86.3988, -83.85)
  line L2 (86.3988, -83.85) -> (86.3988, -18.2813)
  line L3 (86.3988, -18.2813) -> (51, -18.2813)
  line L4 (51, -18.2813) -> (51, -83.85)
  point P0 (25.5, -6)
extrude "Extrusion41" cut sketch "Sketch54" against normal blind 26.989
sketch "Sketch55" plane through (-33.15, -55.4839, -71.9891) normal (0, 0.1984, -0.9801) x (-1, 0, 0)
  line L0 (9, 6.0722) -> (9, 32.525) projected
  line L1 (9, 17.5562) -> (3.5, 17.5562)
  line L2 (9, 17.5562) -> (14.5, 17.5562) construction
  circle A0 centre (3.5, 17.5562) radius 2.55
  point P0 (-33.15, 68.6627)
  point P1 (9, 32.5248)
  dimension "d153" = 5.5
  dimension "d154" = 180
  dimension "d155" = 5.1
extrude "Extrusion42" cut sketch "Sketch55" against normal blind 20
sketch "Sketch71" plane through (-33.15, -55.4839, -71.9891) normal (0, 0.1984, -0.9801) x (-1, 0, 0)
  circle A0 centre (3.5, 17.5562) radius 2.55 projected
  line L0 (3.5, 17.5562) -> (3.5, 7.5762)
  line L1 (0, 27.5365) -> (9, 27.5365) projected
  line L2 (0, 79.6022) -> (0, -2.5812) projected
  line L3 (9, 27.5365) -> (9, 0) projected
  line L4 (0, 17.5562) -> (9, 17.5562)
  line L5 (9, 17.5562) -> (9, 7.5762)
  line L6 (9, 7.5762) -> (0, 7.5762)
  line L7 (0, 7.5762) -> (0, 17.5562)
  line L8 (9, 0) -> (0, 0)
  line L9 (0, 0) -> (0, 7.5762)
  line L10 (0, 7.5762) -> (9, 7.5762)
  line L11 (9, 7.5762) -> (9, 0)
  point P0 (-33.15, 68.6627)
  point P1 (0, 0)
  point P2 (0, 7.5762)
  dimension "d215" = 9.98
extrude "Extrusion57" cut sketch "Sketch71" against normal blind 60 contours L6 L3 L8 L2
sketch "Sketch73" plane through (-42.15, 6, -25.5) normal (-1, 0, 0) x (0, 0, 1)
  line L0 (-46.4891, -61.4839) -> (-41.0263, -34.4947) projected
  line L1 (-41.0263, -34.4947) -> (-42.9731, -44.113)
  line L2 (-42.9731, -44.113) -> (-23.3706, -48.0807)
  line L3 (-41.0263, -34.4947) -> (-15.8808, -34.4947) projected
  line L4 (-20.6207, -34.4947) -> (-25.3836, -58.026)
  line L5 (-44.9861, -54.0583) -> (-15.8808, -59.9494) projected
  line L6 (-25.3836, -58.026) -> (-15.8808, -59.9494)
  line L7 (-20.6207, -34.4947) -> (-5.4041, -34.4947)
  line L8 (-5.4041, -34.4947) -> (-5.4041, -64.759)
  line L9 (-5.4041, -64.759) -> (-28.8644, -65.7075)
  line L10 (-28.8644, -65.7075) -> (-25.3836, -58.026)
  point P0 (25.5, -6)
  dimension "d218" = 20
sketch "Sketch74" plane through (-27.15, -55.4839, -71.9891) normal (0, 0.1984, -0.9801) x (-1, 0, 0)
  line L0 (6, 27.5365) -> (0, 27.5365) projected
  line L1 (6, 27.5365) -> (16.0486, 27.5365)
  line L2 (16.0486, 27.5365) -> (16.0486, 36.432)
  line L3 (16.0486, 36.432) -> (6, 36.432)
  line L4 (6, 36.432) -> (6, 27.5365)
  point P0 (-27.15, 68.6627)
extrude "Extrusion58" cut sketch "Sketch74" against normal blind 60
extrude "Extrusion59" cut sketch "Sketch73" against normal blind 9 contours L4 L3 L7 L8 L9 L10
fillet "Fillet10" radius 15 1 edges at (31.1498, 3, -25.5)
sketch "Sketch76" plane through (-33.15, -77.85, 25.5) normal (-1, 0, 0) x (0, 0, 1)
  line L0 (-95.9861, 29.7917) -> (-76.3836, 25.824) projected
  line L1 (-95.9861, 29.7917) -> (-95.9861, 0)
  line L2 (-97.4891, 0) -> (0, 0) projected
  line L3 (-97.4891, 22.3661) -> (-95.9861, 29.7917) projected
  line L4 (-97.4891, 0) -> (-97.4891, 22.3661)
  line L5 (-97.4891, 22.3661) -> (-95.9861, 29.7917)
  point P0 (-25.5, 77.85)
extrude "Extrusion60" cut sketch "Sketch76" against normal blind 9
sketch "Sketch78" plane through (-27.15, -71.85, 18.5) normal (0, 0, -1) x (-1, 0, 0)
  point P0 (-27.15, 71.85)
properties part number "DC23[R][FD1]" material "Aluminio 6061"
